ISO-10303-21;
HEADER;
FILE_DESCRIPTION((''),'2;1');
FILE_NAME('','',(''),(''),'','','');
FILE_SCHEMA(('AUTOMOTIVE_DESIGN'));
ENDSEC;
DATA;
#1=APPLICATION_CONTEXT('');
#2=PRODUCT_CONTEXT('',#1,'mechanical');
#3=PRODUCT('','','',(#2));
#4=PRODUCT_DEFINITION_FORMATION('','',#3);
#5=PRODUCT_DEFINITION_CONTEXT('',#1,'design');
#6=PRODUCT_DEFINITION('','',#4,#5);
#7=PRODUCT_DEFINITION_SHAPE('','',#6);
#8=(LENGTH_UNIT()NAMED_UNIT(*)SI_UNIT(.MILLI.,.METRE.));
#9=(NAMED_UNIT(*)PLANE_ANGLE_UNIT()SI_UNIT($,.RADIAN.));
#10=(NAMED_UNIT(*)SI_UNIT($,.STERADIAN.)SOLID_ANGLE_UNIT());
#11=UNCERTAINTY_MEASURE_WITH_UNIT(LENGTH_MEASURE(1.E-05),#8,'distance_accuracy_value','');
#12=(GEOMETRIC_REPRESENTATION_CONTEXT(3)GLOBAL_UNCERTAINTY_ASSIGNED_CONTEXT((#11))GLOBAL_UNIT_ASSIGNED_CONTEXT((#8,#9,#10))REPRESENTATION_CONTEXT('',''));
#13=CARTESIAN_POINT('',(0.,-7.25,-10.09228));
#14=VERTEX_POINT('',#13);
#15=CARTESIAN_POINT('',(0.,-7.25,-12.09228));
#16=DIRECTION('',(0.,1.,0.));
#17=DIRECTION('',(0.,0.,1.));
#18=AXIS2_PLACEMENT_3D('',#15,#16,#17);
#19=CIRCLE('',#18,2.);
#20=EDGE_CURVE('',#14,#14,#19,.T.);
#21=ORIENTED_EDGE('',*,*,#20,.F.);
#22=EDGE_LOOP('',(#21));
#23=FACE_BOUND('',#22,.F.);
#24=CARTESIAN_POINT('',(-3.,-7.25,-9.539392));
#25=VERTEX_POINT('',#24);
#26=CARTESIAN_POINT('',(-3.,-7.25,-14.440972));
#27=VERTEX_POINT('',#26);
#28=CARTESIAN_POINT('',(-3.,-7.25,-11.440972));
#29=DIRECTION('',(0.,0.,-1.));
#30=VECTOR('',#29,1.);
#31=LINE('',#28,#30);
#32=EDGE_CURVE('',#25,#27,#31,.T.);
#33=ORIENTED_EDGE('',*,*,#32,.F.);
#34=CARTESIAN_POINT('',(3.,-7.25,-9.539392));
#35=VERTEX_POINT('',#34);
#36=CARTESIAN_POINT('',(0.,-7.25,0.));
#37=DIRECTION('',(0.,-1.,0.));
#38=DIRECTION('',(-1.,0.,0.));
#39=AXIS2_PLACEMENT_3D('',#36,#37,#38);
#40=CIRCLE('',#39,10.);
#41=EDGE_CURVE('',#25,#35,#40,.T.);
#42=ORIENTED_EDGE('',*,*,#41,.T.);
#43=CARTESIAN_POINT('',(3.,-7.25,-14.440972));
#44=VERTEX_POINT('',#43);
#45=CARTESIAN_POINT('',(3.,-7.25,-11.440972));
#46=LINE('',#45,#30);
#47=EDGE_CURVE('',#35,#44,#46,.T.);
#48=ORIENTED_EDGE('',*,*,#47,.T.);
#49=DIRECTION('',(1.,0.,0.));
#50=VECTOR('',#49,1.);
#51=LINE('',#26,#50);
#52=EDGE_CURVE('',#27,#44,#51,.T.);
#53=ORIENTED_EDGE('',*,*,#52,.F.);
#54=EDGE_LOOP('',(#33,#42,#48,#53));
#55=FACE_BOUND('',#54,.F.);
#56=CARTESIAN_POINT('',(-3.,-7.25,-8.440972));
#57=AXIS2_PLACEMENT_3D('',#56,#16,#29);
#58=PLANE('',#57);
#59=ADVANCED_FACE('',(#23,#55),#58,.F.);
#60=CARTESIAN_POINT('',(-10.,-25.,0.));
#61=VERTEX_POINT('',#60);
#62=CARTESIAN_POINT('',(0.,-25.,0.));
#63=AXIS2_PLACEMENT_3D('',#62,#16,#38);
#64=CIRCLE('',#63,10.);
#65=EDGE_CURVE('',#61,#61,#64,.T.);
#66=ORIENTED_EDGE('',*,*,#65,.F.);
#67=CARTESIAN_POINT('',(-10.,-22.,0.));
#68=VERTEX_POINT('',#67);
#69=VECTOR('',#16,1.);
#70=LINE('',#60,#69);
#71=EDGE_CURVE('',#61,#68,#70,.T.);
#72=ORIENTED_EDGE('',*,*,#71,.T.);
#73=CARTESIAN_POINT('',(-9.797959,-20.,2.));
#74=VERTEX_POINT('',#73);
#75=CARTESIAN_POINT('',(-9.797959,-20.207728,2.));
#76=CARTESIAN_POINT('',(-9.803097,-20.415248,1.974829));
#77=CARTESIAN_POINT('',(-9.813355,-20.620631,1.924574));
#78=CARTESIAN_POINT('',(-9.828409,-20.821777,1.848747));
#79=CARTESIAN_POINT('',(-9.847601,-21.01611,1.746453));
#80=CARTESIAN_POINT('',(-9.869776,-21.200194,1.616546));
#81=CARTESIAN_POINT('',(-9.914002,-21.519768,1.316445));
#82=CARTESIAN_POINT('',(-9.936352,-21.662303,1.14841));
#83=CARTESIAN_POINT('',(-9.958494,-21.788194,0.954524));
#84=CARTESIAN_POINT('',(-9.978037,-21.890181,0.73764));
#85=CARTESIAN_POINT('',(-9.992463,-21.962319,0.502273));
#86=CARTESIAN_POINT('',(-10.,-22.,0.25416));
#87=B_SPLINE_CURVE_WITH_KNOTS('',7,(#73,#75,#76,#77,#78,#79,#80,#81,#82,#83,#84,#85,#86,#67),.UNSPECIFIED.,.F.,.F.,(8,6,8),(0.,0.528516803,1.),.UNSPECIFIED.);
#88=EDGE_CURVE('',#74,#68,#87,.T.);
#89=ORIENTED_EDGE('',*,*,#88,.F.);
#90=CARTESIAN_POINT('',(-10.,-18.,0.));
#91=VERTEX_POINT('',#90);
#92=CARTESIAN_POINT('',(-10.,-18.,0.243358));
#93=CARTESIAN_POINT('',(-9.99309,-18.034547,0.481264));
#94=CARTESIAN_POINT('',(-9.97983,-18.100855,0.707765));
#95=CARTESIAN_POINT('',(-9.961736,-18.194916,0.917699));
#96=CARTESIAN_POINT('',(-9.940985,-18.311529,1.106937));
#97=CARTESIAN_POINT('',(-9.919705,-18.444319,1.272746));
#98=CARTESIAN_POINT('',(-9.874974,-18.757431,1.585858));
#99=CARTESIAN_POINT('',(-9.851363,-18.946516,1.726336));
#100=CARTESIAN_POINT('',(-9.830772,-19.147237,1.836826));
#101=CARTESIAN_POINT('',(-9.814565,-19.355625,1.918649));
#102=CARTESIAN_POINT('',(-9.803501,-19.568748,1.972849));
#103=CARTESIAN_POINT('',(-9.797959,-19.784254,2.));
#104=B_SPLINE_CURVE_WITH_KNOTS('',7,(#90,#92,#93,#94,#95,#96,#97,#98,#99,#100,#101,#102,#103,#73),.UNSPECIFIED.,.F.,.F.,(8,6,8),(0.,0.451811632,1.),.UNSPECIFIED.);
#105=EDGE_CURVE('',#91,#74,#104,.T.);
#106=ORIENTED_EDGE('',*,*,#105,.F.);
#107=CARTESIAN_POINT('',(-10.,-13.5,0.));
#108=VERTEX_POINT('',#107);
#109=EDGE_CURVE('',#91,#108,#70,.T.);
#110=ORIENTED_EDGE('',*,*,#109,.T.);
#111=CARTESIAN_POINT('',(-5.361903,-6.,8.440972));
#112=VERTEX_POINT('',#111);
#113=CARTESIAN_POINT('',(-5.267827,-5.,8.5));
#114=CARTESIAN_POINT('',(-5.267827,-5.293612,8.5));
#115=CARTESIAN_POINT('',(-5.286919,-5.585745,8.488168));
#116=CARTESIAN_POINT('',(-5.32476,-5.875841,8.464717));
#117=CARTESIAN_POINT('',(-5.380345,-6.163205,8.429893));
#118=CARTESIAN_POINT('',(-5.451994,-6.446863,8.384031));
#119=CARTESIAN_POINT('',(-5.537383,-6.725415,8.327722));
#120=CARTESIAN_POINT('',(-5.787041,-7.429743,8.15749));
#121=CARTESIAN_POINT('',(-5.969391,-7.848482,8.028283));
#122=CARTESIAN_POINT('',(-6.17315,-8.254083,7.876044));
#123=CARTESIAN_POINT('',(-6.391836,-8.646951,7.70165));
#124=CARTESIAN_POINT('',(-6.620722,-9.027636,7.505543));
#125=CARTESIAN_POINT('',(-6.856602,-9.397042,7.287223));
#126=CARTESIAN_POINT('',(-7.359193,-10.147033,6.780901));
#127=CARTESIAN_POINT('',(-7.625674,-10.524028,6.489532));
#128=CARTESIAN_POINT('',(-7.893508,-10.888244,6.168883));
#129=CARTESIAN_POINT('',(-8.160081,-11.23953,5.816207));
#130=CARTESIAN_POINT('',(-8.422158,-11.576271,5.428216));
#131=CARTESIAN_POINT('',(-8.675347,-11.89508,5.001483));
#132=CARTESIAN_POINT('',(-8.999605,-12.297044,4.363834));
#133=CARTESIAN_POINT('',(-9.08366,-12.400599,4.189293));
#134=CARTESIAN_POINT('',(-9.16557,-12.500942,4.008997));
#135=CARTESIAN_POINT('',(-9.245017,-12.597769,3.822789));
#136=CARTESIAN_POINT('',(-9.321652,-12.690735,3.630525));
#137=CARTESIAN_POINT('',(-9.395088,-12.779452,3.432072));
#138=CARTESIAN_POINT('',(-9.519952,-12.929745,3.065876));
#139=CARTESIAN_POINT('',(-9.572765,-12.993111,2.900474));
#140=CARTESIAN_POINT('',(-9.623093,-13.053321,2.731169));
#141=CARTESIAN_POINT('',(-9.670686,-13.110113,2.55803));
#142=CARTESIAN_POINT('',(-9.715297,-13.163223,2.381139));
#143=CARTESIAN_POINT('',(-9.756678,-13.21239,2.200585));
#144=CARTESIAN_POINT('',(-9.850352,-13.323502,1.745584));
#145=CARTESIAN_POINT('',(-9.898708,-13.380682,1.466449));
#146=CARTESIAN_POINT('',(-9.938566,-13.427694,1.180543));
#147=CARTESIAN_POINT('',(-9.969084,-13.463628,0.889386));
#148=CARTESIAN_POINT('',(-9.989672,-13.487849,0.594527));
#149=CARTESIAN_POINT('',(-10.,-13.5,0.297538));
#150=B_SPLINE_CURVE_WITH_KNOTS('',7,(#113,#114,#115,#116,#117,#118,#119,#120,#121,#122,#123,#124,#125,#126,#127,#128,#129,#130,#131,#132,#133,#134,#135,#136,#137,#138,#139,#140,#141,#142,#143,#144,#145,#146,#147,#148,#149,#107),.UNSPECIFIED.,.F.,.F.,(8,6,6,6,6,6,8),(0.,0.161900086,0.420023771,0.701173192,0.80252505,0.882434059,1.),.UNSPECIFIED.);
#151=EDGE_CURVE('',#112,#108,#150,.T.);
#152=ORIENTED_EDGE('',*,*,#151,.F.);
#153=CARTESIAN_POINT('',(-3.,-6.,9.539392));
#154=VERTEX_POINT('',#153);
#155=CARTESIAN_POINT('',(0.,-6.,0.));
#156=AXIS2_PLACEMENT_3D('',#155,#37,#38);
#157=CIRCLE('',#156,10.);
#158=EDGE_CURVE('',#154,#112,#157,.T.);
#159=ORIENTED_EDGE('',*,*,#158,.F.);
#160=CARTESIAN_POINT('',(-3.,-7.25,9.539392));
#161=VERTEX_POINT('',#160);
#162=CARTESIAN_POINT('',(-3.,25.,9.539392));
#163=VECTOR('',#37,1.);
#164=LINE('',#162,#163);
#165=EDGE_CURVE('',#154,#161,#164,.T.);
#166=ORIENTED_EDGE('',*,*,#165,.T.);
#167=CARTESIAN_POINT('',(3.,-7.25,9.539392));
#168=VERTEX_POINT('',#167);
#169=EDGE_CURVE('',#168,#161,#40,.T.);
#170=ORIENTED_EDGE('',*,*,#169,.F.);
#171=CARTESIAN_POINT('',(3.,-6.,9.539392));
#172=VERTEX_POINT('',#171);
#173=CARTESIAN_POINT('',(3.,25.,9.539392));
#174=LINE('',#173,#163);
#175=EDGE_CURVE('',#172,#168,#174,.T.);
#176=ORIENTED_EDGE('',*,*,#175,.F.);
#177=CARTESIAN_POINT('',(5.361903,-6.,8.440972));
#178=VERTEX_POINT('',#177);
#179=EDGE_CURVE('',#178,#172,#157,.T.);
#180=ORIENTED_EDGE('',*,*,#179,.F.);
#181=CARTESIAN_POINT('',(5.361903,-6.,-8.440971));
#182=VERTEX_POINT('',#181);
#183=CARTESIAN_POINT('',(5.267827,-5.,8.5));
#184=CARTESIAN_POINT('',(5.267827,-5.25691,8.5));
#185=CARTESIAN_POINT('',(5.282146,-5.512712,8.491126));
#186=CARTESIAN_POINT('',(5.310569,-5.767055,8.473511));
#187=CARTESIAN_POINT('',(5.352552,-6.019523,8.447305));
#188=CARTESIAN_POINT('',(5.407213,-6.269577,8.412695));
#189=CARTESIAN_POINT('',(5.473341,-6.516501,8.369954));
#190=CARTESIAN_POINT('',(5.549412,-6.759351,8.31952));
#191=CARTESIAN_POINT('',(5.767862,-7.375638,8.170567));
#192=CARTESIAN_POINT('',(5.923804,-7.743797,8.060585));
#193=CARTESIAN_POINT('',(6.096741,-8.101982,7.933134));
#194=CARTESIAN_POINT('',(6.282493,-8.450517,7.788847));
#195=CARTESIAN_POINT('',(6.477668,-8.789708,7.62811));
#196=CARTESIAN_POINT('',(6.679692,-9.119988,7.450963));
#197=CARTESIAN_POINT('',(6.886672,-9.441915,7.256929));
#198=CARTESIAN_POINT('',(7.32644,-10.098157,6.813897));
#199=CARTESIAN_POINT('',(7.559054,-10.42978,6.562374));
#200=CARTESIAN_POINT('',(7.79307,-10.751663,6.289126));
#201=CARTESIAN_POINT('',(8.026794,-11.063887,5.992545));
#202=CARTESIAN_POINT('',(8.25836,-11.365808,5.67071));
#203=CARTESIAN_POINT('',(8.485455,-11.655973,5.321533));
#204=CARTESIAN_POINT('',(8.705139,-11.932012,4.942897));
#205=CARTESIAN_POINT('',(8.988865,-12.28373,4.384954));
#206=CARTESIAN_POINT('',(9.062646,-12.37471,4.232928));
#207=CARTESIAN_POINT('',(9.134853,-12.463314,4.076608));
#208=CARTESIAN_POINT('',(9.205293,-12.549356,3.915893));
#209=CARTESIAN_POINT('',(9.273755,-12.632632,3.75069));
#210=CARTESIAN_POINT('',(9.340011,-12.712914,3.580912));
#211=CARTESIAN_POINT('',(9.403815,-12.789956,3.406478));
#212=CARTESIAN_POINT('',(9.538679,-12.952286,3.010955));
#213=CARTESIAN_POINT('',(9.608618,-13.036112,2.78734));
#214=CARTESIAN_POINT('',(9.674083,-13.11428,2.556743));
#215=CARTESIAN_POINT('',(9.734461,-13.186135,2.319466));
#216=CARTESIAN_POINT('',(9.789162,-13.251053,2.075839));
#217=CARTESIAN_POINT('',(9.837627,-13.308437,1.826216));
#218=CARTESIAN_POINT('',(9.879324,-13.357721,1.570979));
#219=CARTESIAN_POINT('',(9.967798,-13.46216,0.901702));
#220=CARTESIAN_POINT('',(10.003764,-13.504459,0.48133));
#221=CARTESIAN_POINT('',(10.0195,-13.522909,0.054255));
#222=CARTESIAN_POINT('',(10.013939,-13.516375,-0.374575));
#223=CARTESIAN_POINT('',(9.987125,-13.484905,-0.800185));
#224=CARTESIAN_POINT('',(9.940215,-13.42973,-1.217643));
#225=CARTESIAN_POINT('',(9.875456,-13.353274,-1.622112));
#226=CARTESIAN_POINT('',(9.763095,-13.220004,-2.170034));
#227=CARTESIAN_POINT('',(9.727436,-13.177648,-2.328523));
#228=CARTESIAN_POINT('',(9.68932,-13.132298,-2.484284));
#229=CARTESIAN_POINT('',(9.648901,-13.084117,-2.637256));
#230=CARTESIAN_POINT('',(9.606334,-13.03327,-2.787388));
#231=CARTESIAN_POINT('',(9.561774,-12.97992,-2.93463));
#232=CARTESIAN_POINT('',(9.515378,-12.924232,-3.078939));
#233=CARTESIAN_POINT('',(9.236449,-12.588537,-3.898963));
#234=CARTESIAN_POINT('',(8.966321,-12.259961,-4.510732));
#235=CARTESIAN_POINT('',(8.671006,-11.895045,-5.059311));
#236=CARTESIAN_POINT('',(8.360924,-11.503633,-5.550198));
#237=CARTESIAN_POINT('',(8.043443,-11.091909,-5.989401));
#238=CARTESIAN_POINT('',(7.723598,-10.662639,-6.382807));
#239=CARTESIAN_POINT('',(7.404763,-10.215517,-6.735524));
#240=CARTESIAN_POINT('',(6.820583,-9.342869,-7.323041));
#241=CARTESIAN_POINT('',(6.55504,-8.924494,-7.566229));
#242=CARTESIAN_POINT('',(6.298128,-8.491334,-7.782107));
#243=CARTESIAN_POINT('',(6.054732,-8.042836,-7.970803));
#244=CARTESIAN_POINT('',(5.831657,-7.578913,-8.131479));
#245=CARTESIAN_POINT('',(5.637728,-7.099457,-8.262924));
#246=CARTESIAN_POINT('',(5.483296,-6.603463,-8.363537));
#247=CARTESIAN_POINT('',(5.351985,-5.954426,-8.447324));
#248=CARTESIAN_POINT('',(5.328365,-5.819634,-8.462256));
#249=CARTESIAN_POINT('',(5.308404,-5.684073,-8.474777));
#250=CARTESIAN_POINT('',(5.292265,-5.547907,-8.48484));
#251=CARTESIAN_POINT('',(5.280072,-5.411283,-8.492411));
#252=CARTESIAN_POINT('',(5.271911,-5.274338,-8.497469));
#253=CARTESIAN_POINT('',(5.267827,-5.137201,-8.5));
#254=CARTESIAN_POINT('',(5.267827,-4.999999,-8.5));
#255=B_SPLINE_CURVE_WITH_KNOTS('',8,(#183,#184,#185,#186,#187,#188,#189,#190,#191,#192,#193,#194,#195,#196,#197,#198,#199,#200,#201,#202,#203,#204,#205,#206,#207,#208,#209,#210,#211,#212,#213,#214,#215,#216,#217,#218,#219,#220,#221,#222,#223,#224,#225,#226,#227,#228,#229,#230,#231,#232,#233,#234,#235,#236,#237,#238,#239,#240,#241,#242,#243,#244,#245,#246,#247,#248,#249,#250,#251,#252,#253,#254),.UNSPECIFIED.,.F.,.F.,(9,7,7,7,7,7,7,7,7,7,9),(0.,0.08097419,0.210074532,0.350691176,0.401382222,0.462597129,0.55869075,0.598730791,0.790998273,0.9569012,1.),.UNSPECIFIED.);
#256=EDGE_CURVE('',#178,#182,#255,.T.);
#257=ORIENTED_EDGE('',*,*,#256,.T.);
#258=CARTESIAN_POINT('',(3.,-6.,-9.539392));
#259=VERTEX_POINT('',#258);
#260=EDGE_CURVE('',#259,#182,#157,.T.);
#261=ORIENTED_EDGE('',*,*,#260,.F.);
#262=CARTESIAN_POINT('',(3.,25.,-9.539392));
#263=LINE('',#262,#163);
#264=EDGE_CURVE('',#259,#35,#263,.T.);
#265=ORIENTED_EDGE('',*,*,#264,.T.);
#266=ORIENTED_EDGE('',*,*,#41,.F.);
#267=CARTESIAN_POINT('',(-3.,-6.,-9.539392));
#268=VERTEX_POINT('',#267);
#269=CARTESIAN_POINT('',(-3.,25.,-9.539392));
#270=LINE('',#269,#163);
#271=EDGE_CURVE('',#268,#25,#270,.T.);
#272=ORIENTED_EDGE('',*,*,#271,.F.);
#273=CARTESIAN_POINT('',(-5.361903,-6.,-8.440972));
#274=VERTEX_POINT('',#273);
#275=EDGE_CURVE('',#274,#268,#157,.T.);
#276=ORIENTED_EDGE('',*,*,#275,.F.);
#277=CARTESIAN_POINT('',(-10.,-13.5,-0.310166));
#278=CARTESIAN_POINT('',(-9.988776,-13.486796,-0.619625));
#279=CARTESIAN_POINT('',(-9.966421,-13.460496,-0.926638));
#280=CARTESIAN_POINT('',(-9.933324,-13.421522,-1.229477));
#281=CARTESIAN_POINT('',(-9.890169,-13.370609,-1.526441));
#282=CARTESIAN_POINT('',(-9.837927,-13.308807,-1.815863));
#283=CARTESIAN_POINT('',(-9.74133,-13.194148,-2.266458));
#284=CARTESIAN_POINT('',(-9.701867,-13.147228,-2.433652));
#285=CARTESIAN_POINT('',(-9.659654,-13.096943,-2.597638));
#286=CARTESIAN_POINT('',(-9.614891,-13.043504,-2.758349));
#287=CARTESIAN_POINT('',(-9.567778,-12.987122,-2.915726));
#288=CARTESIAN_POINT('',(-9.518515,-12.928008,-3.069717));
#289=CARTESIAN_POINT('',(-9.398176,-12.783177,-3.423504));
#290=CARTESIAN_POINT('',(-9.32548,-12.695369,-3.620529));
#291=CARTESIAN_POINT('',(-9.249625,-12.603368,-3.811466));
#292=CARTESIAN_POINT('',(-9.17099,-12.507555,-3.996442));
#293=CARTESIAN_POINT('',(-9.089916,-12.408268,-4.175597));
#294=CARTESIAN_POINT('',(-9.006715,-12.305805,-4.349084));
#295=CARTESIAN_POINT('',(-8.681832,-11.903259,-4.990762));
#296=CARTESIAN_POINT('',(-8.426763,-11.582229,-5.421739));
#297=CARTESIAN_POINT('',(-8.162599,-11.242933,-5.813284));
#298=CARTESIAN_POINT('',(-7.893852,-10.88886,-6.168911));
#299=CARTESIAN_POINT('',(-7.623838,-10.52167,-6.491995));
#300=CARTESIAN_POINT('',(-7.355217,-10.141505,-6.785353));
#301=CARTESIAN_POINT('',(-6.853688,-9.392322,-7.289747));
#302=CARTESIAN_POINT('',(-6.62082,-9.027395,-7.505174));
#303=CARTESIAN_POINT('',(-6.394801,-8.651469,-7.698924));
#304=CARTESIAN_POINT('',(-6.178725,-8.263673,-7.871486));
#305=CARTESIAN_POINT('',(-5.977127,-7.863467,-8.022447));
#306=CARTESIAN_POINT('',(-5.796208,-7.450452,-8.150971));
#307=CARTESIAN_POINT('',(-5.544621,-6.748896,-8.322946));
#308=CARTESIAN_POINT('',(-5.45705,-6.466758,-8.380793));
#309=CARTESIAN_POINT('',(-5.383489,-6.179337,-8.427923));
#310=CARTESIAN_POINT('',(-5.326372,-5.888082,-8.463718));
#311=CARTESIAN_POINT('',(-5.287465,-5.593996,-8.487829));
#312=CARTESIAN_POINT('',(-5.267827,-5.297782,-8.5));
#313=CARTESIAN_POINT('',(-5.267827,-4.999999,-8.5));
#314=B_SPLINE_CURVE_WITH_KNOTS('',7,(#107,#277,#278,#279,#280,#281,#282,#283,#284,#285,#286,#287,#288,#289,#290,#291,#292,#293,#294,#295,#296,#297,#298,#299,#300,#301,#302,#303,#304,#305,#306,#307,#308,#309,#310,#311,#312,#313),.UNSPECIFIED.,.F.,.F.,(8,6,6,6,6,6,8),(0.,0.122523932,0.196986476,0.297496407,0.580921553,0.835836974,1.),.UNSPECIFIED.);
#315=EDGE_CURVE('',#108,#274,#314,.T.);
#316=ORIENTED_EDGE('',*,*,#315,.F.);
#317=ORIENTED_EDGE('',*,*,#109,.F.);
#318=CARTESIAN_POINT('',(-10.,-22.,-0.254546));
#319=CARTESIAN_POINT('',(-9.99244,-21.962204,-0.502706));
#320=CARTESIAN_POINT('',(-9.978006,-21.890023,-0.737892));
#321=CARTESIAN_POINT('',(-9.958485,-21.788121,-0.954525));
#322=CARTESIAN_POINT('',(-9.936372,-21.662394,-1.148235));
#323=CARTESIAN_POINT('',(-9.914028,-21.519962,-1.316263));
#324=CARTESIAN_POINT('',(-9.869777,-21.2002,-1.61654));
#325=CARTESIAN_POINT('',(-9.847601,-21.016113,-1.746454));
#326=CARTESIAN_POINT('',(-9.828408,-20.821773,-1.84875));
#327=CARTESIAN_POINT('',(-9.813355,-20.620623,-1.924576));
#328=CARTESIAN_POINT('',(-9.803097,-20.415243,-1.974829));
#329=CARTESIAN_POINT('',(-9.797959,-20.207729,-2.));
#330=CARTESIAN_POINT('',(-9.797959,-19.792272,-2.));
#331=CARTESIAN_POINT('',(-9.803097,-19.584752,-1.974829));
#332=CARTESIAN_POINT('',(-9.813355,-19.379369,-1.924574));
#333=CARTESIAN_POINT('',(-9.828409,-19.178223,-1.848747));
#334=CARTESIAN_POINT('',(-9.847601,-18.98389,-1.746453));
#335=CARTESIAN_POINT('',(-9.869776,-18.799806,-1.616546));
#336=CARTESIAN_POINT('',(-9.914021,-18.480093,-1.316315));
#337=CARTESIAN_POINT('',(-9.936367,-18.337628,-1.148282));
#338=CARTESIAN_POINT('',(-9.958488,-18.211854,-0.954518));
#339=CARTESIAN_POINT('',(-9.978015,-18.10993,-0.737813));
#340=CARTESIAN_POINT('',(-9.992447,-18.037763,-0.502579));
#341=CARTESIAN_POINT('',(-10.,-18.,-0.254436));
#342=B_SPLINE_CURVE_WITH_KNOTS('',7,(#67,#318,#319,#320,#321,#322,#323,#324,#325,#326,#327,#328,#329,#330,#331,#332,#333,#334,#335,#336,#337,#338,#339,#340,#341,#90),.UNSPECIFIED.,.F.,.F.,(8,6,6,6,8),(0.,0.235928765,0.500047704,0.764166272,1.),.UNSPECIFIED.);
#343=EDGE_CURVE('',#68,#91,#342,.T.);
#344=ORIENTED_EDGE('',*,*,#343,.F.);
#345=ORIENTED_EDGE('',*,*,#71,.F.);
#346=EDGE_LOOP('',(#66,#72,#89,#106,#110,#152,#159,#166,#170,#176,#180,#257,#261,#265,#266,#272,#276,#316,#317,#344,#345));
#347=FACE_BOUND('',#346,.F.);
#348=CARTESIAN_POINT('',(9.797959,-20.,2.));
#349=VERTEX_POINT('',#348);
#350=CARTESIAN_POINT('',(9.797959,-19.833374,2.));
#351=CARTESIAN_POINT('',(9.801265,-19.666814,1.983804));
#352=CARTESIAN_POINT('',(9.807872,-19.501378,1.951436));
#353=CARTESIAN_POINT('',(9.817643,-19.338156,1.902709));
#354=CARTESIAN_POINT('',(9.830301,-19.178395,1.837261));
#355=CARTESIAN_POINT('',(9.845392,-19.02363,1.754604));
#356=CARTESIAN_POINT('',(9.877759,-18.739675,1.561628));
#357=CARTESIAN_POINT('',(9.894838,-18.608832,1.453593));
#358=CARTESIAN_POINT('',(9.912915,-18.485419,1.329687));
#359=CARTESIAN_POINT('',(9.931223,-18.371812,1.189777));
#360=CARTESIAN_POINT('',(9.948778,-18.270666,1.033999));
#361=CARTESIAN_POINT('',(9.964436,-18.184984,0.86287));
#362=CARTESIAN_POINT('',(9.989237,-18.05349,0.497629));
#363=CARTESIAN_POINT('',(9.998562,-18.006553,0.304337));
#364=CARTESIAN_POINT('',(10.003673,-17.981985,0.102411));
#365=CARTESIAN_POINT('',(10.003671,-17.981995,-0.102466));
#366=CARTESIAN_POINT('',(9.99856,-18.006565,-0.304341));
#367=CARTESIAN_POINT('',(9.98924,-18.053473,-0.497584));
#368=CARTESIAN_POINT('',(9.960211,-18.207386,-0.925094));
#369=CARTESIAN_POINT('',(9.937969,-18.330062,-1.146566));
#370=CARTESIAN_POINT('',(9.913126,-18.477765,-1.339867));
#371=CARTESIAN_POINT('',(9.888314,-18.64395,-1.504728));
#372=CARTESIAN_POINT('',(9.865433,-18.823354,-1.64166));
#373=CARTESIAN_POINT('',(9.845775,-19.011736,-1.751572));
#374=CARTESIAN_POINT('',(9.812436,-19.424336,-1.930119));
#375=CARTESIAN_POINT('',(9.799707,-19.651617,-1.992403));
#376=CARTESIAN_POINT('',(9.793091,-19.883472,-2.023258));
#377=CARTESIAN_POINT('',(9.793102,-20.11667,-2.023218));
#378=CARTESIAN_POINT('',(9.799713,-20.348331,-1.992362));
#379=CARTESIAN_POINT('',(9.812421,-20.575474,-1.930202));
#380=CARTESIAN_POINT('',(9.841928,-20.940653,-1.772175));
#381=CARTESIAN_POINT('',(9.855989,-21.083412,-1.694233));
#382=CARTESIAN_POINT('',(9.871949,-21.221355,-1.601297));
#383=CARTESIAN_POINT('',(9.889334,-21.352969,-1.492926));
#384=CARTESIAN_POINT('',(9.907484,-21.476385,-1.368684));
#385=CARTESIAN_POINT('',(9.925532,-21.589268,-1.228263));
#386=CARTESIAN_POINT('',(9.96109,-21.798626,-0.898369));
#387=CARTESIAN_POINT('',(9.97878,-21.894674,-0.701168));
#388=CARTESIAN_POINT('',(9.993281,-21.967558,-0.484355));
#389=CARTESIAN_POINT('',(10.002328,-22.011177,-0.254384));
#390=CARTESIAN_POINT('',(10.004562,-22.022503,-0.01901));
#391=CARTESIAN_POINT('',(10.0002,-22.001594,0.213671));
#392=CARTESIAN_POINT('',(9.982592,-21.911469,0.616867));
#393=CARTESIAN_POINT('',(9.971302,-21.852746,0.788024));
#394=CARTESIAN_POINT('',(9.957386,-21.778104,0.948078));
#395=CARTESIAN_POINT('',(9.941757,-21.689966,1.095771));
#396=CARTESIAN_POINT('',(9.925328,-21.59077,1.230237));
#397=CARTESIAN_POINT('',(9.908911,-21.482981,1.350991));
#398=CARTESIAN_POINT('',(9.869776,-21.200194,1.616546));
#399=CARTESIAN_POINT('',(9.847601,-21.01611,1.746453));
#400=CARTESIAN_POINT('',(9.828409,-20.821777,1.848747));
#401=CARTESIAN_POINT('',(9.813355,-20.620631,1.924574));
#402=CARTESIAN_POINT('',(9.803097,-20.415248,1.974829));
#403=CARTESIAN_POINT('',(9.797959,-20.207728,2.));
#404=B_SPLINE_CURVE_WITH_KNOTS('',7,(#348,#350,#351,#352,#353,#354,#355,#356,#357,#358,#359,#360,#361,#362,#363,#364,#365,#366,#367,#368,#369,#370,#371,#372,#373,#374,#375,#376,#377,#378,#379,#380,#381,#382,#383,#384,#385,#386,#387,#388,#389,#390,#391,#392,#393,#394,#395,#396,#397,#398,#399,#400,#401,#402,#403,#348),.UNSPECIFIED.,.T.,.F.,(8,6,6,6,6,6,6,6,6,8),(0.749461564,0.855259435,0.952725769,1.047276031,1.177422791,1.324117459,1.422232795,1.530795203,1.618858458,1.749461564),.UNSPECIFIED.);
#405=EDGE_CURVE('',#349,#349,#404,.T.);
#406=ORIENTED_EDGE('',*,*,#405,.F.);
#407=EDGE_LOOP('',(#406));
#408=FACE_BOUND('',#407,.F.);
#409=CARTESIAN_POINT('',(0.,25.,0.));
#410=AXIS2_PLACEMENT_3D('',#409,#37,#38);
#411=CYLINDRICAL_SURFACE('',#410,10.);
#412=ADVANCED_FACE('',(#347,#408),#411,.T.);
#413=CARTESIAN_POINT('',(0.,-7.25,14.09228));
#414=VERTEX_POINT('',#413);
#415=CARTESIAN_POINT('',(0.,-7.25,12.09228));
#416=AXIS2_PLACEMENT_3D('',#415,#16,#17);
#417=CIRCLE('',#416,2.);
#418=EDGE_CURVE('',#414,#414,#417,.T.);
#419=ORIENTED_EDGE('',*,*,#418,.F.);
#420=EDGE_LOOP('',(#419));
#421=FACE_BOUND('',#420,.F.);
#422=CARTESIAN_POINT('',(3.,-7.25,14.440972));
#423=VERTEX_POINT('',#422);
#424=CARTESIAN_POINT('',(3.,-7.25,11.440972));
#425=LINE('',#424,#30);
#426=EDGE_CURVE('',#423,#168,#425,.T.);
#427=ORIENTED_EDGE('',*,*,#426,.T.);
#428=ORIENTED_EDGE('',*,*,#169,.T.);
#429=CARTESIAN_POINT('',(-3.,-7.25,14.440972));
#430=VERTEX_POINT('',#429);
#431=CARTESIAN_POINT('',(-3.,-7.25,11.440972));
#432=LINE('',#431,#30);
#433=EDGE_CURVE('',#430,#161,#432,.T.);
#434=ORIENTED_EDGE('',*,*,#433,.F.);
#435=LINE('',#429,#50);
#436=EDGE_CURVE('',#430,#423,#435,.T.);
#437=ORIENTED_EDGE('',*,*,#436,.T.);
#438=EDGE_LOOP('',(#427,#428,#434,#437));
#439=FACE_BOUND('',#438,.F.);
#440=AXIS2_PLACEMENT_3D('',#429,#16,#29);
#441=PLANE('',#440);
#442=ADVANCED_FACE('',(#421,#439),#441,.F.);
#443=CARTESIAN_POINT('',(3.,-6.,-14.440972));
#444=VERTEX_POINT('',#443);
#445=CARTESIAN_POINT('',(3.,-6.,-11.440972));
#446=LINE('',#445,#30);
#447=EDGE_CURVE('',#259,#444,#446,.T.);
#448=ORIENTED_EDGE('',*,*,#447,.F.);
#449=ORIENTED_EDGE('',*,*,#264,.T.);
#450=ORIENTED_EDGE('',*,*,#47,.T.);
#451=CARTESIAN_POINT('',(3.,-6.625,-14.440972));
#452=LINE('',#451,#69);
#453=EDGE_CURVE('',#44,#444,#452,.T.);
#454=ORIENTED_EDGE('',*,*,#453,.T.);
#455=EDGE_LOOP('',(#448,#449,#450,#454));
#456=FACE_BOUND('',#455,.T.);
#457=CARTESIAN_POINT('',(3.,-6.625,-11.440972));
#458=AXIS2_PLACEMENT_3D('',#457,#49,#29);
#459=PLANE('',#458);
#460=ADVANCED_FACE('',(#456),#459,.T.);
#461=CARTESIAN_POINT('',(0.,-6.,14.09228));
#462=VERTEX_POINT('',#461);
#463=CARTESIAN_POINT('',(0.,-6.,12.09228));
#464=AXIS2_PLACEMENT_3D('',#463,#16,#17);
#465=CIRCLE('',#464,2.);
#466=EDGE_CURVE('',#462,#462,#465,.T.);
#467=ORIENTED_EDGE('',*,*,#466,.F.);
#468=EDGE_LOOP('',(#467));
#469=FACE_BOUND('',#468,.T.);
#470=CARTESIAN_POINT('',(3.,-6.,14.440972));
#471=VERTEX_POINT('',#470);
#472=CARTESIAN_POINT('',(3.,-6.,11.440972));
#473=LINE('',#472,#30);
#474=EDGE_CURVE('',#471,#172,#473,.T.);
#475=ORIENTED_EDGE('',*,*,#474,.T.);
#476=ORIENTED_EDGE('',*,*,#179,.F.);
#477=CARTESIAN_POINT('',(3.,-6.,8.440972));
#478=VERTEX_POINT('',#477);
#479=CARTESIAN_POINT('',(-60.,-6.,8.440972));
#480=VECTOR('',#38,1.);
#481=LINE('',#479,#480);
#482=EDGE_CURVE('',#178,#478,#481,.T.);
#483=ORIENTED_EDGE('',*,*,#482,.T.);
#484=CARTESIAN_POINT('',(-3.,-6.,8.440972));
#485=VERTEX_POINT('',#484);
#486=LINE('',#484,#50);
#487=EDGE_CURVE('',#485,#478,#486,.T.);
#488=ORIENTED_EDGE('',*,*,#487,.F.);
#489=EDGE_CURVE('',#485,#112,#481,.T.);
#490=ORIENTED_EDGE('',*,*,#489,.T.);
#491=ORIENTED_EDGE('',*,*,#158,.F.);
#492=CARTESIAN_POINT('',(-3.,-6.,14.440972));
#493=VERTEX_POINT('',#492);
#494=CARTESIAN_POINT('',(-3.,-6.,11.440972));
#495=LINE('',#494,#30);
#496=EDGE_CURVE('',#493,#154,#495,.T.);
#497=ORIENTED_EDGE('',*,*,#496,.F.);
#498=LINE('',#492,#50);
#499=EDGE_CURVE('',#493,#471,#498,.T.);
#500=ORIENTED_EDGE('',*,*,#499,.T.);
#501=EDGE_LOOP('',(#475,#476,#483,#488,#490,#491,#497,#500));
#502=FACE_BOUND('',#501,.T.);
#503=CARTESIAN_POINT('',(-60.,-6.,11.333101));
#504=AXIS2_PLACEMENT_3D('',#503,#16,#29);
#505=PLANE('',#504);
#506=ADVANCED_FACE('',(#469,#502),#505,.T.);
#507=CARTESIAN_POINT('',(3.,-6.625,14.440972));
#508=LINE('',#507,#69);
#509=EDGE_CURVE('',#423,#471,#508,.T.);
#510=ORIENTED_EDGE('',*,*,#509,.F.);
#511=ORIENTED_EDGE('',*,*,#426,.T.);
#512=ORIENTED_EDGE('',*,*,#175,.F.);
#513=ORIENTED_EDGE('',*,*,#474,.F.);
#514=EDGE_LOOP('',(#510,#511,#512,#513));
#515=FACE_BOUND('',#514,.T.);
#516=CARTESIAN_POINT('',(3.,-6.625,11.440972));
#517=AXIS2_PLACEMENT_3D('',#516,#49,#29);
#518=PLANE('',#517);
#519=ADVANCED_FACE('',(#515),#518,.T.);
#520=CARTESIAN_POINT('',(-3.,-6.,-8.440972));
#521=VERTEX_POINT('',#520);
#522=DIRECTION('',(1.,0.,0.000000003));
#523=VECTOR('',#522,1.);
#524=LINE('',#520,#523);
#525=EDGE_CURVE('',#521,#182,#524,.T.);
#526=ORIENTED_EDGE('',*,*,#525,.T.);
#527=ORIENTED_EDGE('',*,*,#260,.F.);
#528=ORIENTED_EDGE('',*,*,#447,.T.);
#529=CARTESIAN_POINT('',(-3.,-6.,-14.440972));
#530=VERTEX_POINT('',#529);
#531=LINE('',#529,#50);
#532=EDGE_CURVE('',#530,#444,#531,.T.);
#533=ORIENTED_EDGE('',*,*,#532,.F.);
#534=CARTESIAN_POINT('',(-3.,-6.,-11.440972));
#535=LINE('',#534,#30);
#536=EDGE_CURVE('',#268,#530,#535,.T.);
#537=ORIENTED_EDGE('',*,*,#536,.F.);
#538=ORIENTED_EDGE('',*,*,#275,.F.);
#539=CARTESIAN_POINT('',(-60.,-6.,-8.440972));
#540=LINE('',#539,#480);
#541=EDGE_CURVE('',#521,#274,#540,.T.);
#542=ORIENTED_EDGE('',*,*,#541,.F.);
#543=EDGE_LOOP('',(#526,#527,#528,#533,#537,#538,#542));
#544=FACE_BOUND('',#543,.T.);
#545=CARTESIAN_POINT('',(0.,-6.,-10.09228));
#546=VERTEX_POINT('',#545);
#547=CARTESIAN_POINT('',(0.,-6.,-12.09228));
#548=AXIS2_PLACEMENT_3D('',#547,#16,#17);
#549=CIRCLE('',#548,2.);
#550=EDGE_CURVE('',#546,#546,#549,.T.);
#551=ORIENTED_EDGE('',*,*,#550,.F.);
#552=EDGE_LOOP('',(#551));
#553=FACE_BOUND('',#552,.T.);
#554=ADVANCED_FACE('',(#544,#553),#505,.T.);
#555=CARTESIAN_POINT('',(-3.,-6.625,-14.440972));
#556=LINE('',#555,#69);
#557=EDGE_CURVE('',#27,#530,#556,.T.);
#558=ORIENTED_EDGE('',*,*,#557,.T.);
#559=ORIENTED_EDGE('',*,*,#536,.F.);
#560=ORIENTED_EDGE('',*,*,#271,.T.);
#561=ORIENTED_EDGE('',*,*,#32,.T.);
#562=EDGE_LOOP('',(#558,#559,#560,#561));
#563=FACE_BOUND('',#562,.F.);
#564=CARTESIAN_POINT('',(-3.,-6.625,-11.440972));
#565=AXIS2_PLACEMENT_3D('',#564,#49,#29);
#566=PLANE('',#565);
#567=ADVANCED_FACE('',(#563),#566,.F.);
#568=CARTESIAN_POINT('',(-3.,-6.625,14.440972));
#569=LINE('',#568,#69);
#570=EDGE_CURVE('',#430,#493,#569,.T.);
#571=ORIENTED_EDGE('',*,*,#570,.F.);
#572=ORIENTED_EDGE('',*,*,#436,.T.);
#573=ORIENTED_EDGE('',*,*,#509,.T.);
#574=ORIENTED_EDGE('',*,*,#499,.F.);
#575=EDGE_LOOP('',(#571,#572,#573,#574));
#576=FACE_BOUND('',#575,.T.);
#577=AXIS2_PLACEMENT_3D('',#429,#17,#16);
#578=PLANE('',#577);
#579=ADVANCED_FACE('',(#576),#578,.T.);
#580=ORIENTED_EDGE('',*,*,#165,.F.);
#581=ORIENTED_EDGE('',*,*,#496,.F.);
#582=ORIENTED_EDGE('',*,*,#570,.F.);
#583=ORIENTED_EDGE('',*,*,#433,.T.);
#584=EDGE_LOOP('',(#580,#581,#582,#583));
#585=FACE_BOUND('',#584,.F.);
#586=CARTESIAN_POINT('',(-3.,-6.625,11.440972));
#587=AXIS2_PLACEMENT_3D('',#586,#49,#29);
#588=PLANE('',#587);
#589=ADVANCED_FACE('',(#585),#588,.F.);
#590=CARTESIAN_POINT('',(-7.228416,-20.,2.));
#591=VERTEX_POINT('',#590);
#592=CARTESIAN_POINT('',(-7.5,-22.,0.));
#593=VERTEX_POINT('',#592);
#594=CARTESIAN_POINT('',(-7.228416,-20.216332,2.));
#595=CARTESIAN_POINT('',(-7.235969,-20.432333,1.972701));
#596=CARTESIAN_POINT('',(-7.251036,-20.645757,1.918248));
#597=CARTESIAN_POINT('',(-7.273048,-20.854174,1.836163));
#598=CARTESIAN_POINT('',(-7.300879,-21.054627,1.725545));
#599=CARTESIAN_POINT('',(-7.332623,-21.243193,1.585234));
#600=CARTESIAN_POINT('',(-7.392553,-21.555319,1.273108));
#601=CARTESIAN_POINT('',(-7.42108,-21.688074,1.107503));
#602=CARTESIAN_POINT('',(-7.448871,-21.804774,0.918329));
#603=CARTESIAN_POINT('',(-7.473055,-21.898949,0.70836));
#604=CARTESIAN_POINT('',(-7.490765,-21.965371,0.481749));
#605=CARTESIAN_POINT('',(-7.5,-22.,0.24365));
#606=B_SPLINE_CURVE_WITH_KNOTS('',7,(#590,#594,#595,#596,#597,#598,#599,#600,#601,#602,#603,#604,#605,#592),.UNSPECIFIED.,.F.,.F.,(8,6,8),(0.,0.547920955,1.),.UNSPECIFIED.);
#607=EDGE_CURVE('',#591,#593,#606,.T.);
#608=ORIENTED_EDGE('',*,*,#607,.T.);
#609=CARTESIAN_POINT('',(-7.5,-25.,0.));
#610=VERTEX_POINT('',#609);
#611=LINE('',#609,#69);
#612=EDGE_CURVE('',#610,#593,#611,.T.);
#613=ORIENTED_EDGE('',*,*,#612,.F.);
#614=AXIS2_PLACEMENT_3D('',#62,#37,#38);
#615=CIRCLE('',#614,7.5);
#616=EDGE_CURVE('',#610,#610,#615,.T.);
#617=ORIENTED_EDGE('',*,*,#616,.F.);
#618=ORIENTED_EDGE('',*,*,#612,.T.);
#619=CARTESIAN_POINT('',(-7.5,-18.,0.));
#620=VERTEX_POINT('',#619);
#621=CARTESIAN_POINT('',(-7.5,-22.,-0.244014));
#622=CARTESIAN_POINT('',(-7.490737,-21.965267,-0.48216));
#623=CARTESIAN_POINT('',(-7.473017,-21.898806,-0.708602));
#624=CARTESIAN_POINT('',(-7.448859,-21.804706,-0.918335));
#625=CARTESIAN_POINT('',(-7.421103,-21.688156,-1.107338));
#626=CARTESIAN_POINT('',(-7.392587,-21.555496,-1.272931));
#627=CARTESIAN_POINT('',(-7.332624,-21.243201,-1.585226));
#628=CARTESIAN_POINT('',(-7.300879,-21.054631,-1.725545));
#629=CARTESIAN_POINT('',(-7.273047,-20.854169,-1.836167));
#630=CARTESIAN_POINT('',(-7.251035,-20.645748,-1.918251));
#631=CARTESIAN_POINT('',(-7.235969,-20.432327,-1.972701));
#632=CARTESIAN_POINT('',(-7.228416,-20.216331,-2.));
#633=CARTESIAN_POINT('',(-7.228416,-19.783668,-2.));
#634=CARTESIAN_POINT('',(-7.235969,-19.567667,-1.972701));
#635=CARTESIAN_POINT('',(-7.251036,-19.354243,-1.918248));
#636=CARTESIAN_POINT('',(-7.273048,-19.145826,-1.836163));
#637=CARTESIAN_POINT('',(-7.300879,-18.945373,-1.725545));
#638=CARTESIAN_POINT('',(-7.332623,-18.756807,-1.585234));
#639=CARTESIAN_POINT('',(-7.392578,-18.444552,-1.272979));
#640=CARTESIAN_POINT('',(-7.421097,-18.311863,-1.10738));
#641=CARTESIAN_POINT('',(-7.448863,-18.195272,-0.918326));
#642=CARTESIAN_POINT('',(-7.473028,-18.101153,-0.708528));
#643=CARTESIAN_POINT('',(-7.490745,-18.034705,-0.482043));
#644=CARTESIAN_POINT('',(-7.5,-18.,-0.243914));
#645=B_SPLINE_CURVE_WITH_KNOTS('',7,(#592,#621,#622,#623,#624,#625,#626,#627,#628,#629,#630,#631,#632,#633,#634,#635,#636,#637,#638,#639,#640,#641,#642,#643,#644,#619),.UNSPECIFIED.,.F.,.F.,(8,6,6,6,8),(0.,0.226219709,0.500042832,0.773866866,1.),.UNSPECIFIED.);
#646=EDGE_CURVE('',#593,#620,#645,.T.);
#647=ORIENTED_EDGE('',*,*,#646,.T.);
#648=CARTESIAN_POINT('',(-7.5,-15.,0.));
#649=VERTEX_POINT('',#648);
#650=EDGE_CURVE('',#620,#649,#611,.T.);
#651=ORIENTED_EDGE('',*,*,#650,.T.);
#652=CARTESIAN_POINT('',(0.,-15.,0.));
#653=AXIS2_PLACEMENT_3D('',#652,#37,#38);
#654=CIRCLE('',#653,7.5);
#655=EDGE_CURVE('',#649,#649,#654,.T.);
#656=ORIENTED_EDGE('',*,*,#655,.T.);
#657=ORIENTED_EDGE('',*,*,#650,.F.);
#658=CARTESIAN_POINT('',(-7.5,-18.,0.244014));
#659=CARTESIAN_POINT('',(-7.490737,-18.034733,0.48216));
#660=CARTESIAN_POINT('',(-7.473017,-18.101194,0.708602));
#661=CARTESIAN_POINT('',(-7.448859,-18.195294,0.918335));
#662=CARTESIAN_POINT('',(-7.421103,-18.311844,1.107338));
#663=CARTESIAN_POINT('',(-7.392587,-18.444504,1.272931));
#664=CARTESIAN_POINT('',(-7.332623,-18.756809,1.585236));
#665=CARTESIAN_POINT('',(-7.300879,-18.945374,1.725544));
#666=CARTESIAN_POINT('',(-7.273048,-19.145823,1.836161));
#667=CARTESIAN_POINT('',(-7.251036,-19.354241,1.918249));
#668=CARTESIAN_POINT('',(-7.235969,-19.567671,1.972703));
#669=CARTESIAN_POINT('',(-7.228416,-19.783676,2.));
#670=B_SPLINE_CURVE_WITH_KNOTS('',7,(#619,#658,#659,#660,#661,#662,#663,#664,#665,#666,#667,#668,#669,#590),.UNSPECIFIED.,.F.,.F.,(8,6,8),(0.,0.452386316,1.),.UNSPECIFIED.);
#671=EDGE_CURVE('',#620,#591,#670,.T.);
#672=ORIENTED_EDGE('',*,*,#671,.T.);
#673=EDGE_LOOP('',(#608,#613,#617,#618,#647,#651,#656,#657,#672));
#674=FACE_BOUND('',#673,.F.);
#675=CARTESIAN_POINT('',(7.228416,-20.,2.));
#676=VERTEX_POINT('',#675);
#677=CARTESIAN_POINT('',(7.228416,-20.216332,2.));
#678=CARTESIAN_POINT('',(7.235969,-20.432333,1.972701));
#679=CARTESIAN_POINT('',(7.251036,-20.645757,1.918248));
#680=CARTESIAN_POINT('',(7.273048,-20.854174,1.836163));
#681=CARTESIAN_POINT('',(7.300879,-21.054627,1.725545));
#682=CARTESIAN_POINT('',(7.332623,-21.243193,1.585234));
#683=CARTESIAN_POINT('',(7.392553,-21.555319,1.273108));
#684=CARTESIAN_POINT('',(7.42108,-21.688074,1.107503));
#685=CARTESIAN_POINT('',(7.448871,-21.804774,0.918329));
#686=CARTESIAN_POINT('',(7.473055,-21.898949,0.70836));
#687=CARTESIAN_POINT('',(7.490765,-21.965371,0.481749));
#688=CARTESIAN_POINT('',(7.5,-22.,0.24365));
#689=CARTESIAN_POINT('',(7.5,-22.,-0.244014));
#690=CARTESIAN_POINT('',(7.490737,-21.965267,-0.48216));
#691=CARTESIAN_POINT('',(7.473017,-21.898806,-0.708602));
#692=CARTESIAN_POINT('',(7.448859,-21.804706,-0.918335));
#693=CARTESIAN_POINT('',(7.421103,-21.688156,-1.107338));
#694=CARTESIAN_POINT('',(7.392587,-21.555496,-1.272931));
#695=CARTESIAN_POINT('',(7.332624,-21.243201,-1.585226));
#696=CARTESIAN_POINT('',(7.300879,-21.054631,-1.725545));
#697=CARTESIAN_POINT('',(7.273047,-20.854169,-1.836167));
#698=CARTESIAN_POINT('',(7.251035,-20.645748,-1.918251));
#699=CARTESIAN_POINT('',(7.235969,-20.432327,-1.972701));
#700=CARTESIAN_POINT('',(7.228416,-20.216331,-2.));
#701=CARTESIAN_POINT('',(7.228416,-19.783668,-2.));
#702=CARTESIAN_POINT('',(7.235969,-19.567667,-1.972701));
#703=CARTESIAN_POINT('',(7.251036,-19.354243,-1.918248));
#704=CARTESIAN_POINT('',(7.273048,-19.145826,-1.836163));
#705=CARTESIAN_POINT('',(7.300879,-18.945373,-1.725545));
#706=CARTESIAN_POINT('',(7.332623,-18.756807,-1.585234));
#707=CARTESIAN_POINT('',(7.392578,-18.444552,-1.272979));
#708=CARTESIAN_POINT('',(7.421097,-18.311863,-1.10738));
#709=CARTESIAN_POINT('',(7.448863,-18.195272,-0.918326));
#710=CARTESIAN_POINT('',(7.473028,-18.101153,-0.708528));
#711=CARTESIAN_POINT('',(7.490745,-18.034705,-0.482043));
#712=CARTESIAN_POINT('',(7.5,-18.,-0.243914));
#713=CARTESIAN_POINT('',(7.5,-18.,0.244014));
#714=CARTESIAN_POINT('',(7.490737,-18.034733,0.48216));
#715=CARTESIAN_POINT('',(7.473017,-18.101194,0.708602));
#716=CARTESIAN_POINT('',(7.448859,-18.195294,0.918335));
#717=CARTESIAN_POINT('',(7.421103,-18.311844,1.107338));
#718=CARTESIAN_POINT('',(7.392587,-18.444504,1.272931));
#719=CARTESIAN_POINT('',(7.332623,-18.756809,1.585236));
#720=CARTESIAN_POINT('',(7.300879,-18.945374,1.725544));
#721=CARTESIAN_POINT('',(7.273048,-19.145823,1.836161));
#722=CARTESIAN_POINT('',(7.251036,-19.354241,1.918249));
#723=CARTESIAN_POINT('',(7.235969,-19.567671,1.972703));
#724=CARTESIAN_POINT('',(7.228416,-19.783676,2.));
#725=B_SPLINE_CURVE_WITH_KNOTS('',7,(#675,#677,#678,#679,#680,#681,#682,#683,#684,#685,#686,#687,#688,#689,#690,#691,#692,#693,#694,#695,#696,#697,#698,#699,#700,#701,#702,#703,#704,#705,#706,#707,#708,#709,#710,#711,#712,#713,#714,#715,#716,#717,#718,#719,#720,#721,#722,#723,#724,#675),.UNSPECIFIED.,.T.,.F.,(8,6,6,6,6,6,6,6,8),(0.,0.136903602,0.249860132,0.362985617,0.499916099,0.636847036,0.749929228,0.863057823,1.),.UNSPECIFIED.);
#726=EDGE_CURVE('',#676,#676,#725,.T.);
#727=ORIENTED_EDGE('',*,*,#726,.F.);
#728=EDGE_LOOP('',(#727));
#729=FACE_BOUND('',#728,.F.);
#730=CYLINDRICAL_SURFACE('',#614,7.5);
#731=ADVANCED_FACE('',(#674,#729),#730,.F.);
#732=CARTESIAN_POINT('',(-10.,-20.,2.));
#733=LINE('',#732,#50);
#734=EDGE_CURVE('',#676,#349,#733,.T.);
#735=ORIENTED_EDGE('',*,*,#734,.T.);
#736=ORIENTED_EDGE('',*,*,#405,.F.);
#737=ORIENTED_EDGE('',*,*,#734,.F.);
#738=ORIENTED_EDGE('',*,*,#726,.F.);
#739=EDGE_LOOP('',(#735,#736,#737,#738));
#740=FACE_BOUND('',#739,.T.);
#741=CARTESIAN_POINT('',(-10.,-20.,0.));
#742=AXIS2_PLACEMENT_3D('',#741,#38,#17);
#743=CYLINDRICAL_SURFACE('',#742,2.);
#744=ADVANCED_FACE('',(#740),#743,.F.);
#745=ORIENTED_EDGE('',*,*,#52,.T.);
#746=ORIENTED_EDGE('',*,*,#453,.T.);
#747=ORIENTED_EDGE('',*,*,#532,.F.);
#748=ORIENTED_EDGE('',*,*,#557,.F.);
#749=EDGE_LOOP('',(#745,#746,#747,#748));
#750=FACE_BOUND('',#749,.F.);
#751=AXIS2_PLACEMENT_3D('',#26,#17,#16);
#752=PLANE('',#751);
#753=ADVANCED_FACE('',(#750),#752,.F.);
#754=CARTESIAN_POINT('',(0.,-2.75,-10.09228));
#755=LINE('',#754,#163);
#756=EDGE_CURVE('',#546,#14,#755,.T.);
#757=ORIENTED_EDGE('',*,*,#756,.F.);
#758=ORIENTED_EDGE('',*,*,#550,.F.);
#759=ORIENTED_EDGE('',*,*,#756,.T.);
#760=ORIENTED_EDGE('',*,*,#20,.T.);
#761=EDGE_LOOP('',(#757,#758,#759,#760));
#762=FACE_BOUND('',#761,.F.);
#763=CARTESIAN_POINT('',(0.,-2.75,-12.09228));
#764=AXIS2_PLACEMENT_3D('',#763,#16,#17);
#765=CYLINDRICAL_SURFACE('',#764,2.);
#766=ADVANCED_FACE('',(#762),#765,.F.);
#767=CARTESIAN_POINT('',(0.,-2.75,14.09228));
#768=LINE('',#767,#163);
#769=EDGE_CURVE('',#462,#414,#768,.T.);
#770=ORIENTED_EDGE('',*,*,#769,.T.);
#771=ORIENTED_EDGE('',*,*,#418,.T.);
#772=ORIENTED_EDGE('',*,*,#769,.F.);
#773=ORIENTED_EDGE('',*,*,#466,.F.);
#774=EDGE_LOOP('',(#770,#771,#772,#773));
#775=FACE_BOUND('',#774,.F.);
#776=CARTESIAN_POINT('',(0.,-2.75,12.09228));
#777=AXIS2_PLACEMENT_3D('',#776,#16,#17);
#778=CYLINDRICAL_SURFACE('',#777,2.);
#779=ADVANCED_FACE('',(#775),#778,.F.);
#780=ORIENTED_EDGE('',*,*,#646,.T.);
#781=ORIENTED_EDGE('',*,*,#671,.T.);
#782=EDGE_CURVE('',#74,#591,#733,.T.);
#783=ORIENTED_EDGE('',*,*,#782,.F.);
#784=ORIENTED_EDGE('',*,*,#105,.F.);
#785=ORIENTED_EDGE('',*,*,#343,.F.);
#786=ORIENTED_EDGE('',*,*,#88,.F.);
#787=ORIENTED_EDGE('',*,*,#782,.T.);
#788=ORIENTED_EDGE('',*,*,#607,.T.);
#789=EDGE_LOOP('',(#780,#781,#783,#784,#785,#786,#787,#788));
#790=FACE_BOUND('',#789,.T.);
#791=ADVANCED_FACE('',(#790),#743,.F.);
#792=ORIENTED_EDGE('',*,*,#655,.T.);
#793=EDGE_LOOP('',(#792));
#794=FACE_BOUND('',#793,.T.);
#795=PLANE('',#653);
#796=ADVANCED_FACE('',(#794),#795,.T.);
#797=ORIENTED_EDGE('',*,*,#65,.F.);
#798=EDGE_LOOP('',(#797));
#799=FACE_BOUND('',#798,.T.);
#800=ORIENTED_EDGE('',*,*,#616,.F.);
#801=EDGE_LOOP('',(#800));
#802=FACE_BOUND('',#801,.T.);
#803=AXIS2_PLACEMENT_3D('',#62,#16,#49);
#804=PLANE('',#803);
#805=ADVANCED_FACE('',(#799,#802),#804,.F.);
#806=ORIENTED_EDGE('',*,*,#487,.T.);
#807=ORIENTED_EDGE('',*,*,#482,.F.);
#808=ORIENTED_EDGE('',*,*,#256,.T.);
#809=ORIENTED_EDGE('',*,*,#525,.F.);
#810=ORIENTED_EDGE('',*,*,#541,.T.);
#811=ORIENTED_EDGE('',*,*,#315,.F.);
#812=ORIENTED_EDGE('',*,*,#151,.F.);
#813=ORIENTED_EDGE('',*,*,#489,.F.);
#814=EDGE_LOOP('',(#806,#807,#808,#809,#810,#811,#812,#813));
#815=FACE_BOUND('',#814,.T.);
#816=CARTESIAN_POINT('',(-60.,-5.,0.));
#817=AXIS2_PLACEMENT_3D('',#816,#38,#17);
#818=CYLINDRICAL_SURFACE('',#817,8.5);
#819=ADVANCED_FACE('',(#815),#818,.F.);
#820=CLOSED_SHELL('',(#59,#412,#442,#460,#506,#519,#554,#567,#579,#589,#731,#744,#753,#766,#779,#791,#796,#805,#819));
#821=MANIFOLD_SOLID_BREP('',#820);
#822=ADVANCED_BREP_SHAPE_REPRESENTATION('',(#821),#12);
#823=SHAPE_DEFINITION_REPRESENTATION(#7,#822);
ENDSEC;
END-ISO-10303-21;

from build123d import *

# Parameters (mm, degrees)
SKETCH2_R                = 10
BOSS_EXTRUDE1_DEPTH      = 30
CUT_EXTRUDE1_START       = -10
SKETCH3_R                = 10
SKETCH3_R_2              = 7.5
CUT_EXTRUDE1_DEPTH       = 10
CUT_EXTRUDE3_DEPTH       = 10
CUT_EXTRUDE3_DEPTH_BACK  = 10
SKETCH5_R                = 2
FILLET2_R                = 10
BOSS_EXTRUDE2_START      = -67.5
SKETCH7_R                = 10
BOSS_EXTRUDE2_DEPTH      = 67.5
SKETCH8_R                = 50
SKETCH8_R_2              = 10
CUT_EXTRUDE6_DEPTH       = 107.770782567
SKETCH9_R                = 7.5
CUT_EXTRUDE7_DEPTH       = 10
CUT_EXTRUDE8_DEPTH       = 10
CUT_EXTRUDE8_DEPTH_BACK  = 10
SKETCH10_R               = 2
CUT_EXTRUDE9_START       = -60
SKETCH11_R               = 10
SKETCH11_R_2             = 7.5
CUT_EXTRUDE9_DEPTH       = 60
CUT_EXTRUDE10_START      = -60
SKETCH12_R               = 7.5
CUT_EXTRUDE10_DEPTH      = 60
CUT_EXTRUDE11_DEPTH      = 60
CUT_EXTRUDE11_DEPTH_BACK = 60
SKETCH14_R               = 8.5
CUT_EXTRUDE12_DEPTH      = 60
CUT_EXTRUDE12_DEPTH_BACK = 60
SKETCH15_W               = 22.666202576
SKETCH15_H               = 2
BOSS_EXTRUDE3_DEPTH      = 3
BOSS_EXTRUDE3_DEPTH_BACK = 3
SKETCH16_W               = 6
SKETCH16_H               = 1.25
SKETCH18_R               = 2
CUT_EXTRUDE13_DEPTH      = 6.5
CUT_EXTRUDE15_DEPTH      = 16.5
CUT_EXTRUDE15_DEPTH_BACK = 16.5
SKETCH19_W               = 29.449673214
SKETCH19_H               = 14.848126233


with BuildPart() as part:
    # Sketch1 → Revolve1 (revolve)
    with BuildSketch(Plane.XY):
        Polygon((50, 25), (0, 25), (0, 22.5), (45, 22.5), (45, -22.5), (0, -22.5), (0, -25), (50, -25), align=None)
    revolve(axis=Axis((0, -25, 0), (0, 1, 0)))

    # Sketch2 → Boss-Extrude1 (add)
    with BuildSketch(Plane(origin=(0, 25, 0), x_dir=(1, 0, 0), z_dir=(0, 1, 0))):
        with Locations(Location((0, 0, 0), (0, 0, 180))):
            Circle(SKETCH2_R)
    extrude(amount=BOSS_EXTRUDE1_DEPTH)

    # Sketch3 → Cut-Extrude1 (cut)
    with BuildSketch(Plane(origin=(0, 55, 0), x_dir=(1, 0, 0), z_dir=(0, 1, 0)).offset(CUT_EXTRUDE1_START)):
        with Locations(Location((0, 0, 0), (0, 0, 180))):
            Circle(SKETCH3_R)
        with Locations(Location((0, 0, 0), (0, 0, 180))):
            Circle(SKETCH3_R_2, mode=Mode.SUBTRACT)
    extrude(amount=CUT_EXTRUDE1_DEPTH, mode=Mode.SUBTRACT)

    # Sketch5 → Cut-Extrude3 (cut, two sides: drawn at the far end of the back side and taken through both)
    with BuildSketch(Plane(origin=(0, 0, 0), x_dir=(0, 0, -1), z_dir=(1, 0, 0)).offset(-CUT_EXTRUDE3_DEPTH_BACK)):
        with Locations(Location((0, 50, 0), (0, 0, 180))):
            Circle(SKETCH5_R)
    extrude(amount=CUT_EXTRUDE3_DEPTH + CUT_EXTRUDE3_DEPTH_BACK, mode=Mode.SUBTRACT)

    # Fillet2
    fillet2_edges = [part.edges().sort_by_distance(p)[0] for p in [
        (-50, 25, 0),
    ]]
    fillet(fillet2_edges, radius=FILLET2_R)

    # Sketch7 → Boss-Extrude2 (add)
    with BuildSketch(Plane(origin=(0, 45, 0), x_dir=(1, 0, 0), z_dir=(0, 1, 0)).offset(BOSS_EXTRUDE2_START)):
        with Locations(Location((0, 0, 0), (0, 0, 180))):
            Circle(SKETCH7_R)
    extrude(amount=BOSS_EXTRUDE2_DEPTH)

    # Sketch8 → Cut-Extrude6 (cut, through all)
    with BuildSketch(Plane(origin=(0, 55, 0), x_dir=(1, 0, 0), z_dir=(0, 1, 0))):
        Circle(SKETCH8_R)
        with Locations(Location((0, 0, 0), (0, 0, 180))):
            Circle(SKETCH8_R_2, mode=Mode.SUBTRACT)
    extrude(amount=-CUT_EXTRUDE6_DEPTH, mode=Mode.SUBTRACT)

    # Sketch9 → Cut-Extrude7 (cut)
    with BuildSketch(Plane.XZ.offset(25)):
        with Locations(Location((0, 0, 0), (0, 0, 180))):
            Circle(SKETCH9_R)
    extrude(amount=-CUT_EXTRUDE7_DEPTH, mode=Mode.SUBTRACT)

    # Sketch10 → Cut-Extrude8 (cut, two sides: drawn at the far end of the back side and taken through both)
    with BuildSketch(Plane(origin=(0, 0, 0), x_dir=(0, 0, -1), z_dir=(1, 0, 0)).offset(-CUT_EXTRUDE8_DEPTH_BACK)):
        with Locations(Location((0, -20, 0), (0, 0, 180))):
            Circle(SKETCH10_R)
    extrude(amount=CUT_EXTRUDE8_DEPTH + CUT_EXTRUDE8_DEPTH_BACK, mode=Mode.SUBTRACT)

    # Sketch11 → Cut-Extrude9 (cut)
    with BuildSketch(Plane(origin=(0, 55, 0), x_dir=(1, 0, 0), z_dir=(0, 1, 0)).offset(CUT_EXTRUDE9_START)):
        with Locations(Location((0, 0, 0), (0, 0, 180))):
            Circle(SKETCH11_R)
        Circle(SKETCH11_R_2, mode=Mode.SUBTRACT)
    extrude(amount=CUT_EXTRUDE9_DEPTH, mode=Mode.SUBTRACT)

    # Sketch12 → Cut-Extrude10 (cut)
    with BuildSketch(Plane(origin=(0, 55, 0), x_dir=(1, 0, 0), z_dir=(0, 1, 0)).offset(CUT_EXTRUDE10_START)):
        Circle(SKETCH12_R)
    extrude(amount=CUT_EXTRUDE10_DEPTH, mode=Mode.SUBTRACT)

    # Sketch13 → Revolve2 (revolve)
    with BuildSketch(Plane(origin=(0, 0, 0), x_dir=(0, 0, -1), z_dir=(1, 0, 0))):
        with BuildLine():
            Line((0, -15), (0, 5))
            ThreePointArc((0, 5), (-10, -5), (0, -15))
        make_face()
    revolve(axis=Axis((0, -15, 0), (0, 1, 0)))

    # Sketch14 → Cut-Extrude11 (cut, two sides: drawn at the far end of the back side and taken through both)
    with BuildSketch(Plane(origin=(0, 0, 0), x_dir=(0, 0, -1), z_dir=(1, 0, 0)).offset(-CUT_EXTRUDE11_DEPTH_BACK)):
        with Locations(Location((0, -5, 0), (0, 0, 180))):
            Circle(SKETCH14_R)
    extrude(amount=CUT_EXTRUDE11_DEPTH + CUT_EXTRUDE11_DEPTH_BACK, mode=Mode.SUBTRACT)

    # Sketch15 → Cut-Extrude12 (cut, two sides: drawn at the far end of the back side and taken through both)
    with BuildSketch(Plane(origin=(0, 0, 0), x_dir=(0, 0, -1), z_dir=(1, 0, 0)).offset(-CUT_EXTRUDE12_DEPTH_BACK)):
        with Locations((0, -5)):
            Rectangle(SKETCH15_W, SKETCH15_H)
    extrude(amount=CUT_EXTRUDE12_DEPTH + CUT_EXTRUDE12_DEPTH_BACK, mode=Mode.SUBTRACT)


with BuildPart() as cut_extrude12_piece_1:
    # of the separate pieces the step leaves, piece 1, a body of its own (cut_extrude12_pieces)
    add(part.part.solids().sort_by_distance((-10, -25, 0))[0])



with BuildPart() as cut_extrude12_piece_2:
    # of the separate pieces the step leaves, piece 2, a body of its own (cut_extrude12_pieces)
    add(part.part.solids().sort_by_distance((5.267826876, -4, 8.440971508))[0])


with BuildPart() as cut_extrude12_piece_1_1:
    add(cut_extrude12_piece_1.part)

    add(cut_extrude12_piece_2.part)  # Boss-Extrude3 merges Cut-Extrude12 piece 2
    # Sketch16 → Boss-Extrude3 (add, two sides: drawn at the far end of the back side and taken through both)
    with BuildSketch(Plane(origin=(0, 0, 0), x_dir=(0, 0, -1), z_dir=(1, 0, 0)).offset(-BOSS_EXTRUDE3_DEPTH_BACK)):
        with Locations((-11.440971508, -3.375)):
            Rectangle(SKETCH16_W, SKETCH16_H)
        with Locations((11.440971508, -3.375)):
            Rectangle(SKETCH16_W, SKETCH16_H)
        with Locations((11.440971508, -6.625)):
            Rectangle(SKETCH16_W, SKETCH16_H)
        with Locations((-11.440971508, -6.625)):
            Rectangle(SKETCH16_W, SKETCH16_H)
    extrude(amount=BOSS_EXTRUDE3_DEPTH + BOSS_EXTRUDE3_DEPTH_BACK)

    # Sketch18 → Cut-Extrude13 (cut)
    with BuildSketch(Plane(origin=(0, -2.75, 0), x_dir=(1, 0, 0), z_dir=(0, 1, 0))):
        with Locations(Location((0, 12.092279572, 0), (0, 0, 270))):
            Circle(SKETCH18_R)
        with Locations(Location((0, -12.092279572, 0), (0, 0, 270))):
            Circle(SKETCH18_R)
    extrude(amount=-CUT_EXTRUDE13_DEPTH, mode=Mode.SUBTRACT)

    # Sketch19 → Cut-Extrude15 (cut, two sides: drawn at the far end of the back side and taken through both)
    with BuildSketch(Plane(origin=(0, 0, 0), x_dir=(0, 0, -1), z_dir=(1, 0, 0)).offset(-CUT_EXTRUDE15_DEPTH_BACK)):
        with Locations((-0.022434936, 1.737788606)):
            Rectangle(SKETCH19_W, SKETCH19_H)
    extrude(amount=CUT_EXTRUDE15_DEPTH + CUT_EXTRUDE15_DEPTH_BACK, mode=Mode.SUBTRACT)


solid = cut_extrude12_piece_1_1.part
